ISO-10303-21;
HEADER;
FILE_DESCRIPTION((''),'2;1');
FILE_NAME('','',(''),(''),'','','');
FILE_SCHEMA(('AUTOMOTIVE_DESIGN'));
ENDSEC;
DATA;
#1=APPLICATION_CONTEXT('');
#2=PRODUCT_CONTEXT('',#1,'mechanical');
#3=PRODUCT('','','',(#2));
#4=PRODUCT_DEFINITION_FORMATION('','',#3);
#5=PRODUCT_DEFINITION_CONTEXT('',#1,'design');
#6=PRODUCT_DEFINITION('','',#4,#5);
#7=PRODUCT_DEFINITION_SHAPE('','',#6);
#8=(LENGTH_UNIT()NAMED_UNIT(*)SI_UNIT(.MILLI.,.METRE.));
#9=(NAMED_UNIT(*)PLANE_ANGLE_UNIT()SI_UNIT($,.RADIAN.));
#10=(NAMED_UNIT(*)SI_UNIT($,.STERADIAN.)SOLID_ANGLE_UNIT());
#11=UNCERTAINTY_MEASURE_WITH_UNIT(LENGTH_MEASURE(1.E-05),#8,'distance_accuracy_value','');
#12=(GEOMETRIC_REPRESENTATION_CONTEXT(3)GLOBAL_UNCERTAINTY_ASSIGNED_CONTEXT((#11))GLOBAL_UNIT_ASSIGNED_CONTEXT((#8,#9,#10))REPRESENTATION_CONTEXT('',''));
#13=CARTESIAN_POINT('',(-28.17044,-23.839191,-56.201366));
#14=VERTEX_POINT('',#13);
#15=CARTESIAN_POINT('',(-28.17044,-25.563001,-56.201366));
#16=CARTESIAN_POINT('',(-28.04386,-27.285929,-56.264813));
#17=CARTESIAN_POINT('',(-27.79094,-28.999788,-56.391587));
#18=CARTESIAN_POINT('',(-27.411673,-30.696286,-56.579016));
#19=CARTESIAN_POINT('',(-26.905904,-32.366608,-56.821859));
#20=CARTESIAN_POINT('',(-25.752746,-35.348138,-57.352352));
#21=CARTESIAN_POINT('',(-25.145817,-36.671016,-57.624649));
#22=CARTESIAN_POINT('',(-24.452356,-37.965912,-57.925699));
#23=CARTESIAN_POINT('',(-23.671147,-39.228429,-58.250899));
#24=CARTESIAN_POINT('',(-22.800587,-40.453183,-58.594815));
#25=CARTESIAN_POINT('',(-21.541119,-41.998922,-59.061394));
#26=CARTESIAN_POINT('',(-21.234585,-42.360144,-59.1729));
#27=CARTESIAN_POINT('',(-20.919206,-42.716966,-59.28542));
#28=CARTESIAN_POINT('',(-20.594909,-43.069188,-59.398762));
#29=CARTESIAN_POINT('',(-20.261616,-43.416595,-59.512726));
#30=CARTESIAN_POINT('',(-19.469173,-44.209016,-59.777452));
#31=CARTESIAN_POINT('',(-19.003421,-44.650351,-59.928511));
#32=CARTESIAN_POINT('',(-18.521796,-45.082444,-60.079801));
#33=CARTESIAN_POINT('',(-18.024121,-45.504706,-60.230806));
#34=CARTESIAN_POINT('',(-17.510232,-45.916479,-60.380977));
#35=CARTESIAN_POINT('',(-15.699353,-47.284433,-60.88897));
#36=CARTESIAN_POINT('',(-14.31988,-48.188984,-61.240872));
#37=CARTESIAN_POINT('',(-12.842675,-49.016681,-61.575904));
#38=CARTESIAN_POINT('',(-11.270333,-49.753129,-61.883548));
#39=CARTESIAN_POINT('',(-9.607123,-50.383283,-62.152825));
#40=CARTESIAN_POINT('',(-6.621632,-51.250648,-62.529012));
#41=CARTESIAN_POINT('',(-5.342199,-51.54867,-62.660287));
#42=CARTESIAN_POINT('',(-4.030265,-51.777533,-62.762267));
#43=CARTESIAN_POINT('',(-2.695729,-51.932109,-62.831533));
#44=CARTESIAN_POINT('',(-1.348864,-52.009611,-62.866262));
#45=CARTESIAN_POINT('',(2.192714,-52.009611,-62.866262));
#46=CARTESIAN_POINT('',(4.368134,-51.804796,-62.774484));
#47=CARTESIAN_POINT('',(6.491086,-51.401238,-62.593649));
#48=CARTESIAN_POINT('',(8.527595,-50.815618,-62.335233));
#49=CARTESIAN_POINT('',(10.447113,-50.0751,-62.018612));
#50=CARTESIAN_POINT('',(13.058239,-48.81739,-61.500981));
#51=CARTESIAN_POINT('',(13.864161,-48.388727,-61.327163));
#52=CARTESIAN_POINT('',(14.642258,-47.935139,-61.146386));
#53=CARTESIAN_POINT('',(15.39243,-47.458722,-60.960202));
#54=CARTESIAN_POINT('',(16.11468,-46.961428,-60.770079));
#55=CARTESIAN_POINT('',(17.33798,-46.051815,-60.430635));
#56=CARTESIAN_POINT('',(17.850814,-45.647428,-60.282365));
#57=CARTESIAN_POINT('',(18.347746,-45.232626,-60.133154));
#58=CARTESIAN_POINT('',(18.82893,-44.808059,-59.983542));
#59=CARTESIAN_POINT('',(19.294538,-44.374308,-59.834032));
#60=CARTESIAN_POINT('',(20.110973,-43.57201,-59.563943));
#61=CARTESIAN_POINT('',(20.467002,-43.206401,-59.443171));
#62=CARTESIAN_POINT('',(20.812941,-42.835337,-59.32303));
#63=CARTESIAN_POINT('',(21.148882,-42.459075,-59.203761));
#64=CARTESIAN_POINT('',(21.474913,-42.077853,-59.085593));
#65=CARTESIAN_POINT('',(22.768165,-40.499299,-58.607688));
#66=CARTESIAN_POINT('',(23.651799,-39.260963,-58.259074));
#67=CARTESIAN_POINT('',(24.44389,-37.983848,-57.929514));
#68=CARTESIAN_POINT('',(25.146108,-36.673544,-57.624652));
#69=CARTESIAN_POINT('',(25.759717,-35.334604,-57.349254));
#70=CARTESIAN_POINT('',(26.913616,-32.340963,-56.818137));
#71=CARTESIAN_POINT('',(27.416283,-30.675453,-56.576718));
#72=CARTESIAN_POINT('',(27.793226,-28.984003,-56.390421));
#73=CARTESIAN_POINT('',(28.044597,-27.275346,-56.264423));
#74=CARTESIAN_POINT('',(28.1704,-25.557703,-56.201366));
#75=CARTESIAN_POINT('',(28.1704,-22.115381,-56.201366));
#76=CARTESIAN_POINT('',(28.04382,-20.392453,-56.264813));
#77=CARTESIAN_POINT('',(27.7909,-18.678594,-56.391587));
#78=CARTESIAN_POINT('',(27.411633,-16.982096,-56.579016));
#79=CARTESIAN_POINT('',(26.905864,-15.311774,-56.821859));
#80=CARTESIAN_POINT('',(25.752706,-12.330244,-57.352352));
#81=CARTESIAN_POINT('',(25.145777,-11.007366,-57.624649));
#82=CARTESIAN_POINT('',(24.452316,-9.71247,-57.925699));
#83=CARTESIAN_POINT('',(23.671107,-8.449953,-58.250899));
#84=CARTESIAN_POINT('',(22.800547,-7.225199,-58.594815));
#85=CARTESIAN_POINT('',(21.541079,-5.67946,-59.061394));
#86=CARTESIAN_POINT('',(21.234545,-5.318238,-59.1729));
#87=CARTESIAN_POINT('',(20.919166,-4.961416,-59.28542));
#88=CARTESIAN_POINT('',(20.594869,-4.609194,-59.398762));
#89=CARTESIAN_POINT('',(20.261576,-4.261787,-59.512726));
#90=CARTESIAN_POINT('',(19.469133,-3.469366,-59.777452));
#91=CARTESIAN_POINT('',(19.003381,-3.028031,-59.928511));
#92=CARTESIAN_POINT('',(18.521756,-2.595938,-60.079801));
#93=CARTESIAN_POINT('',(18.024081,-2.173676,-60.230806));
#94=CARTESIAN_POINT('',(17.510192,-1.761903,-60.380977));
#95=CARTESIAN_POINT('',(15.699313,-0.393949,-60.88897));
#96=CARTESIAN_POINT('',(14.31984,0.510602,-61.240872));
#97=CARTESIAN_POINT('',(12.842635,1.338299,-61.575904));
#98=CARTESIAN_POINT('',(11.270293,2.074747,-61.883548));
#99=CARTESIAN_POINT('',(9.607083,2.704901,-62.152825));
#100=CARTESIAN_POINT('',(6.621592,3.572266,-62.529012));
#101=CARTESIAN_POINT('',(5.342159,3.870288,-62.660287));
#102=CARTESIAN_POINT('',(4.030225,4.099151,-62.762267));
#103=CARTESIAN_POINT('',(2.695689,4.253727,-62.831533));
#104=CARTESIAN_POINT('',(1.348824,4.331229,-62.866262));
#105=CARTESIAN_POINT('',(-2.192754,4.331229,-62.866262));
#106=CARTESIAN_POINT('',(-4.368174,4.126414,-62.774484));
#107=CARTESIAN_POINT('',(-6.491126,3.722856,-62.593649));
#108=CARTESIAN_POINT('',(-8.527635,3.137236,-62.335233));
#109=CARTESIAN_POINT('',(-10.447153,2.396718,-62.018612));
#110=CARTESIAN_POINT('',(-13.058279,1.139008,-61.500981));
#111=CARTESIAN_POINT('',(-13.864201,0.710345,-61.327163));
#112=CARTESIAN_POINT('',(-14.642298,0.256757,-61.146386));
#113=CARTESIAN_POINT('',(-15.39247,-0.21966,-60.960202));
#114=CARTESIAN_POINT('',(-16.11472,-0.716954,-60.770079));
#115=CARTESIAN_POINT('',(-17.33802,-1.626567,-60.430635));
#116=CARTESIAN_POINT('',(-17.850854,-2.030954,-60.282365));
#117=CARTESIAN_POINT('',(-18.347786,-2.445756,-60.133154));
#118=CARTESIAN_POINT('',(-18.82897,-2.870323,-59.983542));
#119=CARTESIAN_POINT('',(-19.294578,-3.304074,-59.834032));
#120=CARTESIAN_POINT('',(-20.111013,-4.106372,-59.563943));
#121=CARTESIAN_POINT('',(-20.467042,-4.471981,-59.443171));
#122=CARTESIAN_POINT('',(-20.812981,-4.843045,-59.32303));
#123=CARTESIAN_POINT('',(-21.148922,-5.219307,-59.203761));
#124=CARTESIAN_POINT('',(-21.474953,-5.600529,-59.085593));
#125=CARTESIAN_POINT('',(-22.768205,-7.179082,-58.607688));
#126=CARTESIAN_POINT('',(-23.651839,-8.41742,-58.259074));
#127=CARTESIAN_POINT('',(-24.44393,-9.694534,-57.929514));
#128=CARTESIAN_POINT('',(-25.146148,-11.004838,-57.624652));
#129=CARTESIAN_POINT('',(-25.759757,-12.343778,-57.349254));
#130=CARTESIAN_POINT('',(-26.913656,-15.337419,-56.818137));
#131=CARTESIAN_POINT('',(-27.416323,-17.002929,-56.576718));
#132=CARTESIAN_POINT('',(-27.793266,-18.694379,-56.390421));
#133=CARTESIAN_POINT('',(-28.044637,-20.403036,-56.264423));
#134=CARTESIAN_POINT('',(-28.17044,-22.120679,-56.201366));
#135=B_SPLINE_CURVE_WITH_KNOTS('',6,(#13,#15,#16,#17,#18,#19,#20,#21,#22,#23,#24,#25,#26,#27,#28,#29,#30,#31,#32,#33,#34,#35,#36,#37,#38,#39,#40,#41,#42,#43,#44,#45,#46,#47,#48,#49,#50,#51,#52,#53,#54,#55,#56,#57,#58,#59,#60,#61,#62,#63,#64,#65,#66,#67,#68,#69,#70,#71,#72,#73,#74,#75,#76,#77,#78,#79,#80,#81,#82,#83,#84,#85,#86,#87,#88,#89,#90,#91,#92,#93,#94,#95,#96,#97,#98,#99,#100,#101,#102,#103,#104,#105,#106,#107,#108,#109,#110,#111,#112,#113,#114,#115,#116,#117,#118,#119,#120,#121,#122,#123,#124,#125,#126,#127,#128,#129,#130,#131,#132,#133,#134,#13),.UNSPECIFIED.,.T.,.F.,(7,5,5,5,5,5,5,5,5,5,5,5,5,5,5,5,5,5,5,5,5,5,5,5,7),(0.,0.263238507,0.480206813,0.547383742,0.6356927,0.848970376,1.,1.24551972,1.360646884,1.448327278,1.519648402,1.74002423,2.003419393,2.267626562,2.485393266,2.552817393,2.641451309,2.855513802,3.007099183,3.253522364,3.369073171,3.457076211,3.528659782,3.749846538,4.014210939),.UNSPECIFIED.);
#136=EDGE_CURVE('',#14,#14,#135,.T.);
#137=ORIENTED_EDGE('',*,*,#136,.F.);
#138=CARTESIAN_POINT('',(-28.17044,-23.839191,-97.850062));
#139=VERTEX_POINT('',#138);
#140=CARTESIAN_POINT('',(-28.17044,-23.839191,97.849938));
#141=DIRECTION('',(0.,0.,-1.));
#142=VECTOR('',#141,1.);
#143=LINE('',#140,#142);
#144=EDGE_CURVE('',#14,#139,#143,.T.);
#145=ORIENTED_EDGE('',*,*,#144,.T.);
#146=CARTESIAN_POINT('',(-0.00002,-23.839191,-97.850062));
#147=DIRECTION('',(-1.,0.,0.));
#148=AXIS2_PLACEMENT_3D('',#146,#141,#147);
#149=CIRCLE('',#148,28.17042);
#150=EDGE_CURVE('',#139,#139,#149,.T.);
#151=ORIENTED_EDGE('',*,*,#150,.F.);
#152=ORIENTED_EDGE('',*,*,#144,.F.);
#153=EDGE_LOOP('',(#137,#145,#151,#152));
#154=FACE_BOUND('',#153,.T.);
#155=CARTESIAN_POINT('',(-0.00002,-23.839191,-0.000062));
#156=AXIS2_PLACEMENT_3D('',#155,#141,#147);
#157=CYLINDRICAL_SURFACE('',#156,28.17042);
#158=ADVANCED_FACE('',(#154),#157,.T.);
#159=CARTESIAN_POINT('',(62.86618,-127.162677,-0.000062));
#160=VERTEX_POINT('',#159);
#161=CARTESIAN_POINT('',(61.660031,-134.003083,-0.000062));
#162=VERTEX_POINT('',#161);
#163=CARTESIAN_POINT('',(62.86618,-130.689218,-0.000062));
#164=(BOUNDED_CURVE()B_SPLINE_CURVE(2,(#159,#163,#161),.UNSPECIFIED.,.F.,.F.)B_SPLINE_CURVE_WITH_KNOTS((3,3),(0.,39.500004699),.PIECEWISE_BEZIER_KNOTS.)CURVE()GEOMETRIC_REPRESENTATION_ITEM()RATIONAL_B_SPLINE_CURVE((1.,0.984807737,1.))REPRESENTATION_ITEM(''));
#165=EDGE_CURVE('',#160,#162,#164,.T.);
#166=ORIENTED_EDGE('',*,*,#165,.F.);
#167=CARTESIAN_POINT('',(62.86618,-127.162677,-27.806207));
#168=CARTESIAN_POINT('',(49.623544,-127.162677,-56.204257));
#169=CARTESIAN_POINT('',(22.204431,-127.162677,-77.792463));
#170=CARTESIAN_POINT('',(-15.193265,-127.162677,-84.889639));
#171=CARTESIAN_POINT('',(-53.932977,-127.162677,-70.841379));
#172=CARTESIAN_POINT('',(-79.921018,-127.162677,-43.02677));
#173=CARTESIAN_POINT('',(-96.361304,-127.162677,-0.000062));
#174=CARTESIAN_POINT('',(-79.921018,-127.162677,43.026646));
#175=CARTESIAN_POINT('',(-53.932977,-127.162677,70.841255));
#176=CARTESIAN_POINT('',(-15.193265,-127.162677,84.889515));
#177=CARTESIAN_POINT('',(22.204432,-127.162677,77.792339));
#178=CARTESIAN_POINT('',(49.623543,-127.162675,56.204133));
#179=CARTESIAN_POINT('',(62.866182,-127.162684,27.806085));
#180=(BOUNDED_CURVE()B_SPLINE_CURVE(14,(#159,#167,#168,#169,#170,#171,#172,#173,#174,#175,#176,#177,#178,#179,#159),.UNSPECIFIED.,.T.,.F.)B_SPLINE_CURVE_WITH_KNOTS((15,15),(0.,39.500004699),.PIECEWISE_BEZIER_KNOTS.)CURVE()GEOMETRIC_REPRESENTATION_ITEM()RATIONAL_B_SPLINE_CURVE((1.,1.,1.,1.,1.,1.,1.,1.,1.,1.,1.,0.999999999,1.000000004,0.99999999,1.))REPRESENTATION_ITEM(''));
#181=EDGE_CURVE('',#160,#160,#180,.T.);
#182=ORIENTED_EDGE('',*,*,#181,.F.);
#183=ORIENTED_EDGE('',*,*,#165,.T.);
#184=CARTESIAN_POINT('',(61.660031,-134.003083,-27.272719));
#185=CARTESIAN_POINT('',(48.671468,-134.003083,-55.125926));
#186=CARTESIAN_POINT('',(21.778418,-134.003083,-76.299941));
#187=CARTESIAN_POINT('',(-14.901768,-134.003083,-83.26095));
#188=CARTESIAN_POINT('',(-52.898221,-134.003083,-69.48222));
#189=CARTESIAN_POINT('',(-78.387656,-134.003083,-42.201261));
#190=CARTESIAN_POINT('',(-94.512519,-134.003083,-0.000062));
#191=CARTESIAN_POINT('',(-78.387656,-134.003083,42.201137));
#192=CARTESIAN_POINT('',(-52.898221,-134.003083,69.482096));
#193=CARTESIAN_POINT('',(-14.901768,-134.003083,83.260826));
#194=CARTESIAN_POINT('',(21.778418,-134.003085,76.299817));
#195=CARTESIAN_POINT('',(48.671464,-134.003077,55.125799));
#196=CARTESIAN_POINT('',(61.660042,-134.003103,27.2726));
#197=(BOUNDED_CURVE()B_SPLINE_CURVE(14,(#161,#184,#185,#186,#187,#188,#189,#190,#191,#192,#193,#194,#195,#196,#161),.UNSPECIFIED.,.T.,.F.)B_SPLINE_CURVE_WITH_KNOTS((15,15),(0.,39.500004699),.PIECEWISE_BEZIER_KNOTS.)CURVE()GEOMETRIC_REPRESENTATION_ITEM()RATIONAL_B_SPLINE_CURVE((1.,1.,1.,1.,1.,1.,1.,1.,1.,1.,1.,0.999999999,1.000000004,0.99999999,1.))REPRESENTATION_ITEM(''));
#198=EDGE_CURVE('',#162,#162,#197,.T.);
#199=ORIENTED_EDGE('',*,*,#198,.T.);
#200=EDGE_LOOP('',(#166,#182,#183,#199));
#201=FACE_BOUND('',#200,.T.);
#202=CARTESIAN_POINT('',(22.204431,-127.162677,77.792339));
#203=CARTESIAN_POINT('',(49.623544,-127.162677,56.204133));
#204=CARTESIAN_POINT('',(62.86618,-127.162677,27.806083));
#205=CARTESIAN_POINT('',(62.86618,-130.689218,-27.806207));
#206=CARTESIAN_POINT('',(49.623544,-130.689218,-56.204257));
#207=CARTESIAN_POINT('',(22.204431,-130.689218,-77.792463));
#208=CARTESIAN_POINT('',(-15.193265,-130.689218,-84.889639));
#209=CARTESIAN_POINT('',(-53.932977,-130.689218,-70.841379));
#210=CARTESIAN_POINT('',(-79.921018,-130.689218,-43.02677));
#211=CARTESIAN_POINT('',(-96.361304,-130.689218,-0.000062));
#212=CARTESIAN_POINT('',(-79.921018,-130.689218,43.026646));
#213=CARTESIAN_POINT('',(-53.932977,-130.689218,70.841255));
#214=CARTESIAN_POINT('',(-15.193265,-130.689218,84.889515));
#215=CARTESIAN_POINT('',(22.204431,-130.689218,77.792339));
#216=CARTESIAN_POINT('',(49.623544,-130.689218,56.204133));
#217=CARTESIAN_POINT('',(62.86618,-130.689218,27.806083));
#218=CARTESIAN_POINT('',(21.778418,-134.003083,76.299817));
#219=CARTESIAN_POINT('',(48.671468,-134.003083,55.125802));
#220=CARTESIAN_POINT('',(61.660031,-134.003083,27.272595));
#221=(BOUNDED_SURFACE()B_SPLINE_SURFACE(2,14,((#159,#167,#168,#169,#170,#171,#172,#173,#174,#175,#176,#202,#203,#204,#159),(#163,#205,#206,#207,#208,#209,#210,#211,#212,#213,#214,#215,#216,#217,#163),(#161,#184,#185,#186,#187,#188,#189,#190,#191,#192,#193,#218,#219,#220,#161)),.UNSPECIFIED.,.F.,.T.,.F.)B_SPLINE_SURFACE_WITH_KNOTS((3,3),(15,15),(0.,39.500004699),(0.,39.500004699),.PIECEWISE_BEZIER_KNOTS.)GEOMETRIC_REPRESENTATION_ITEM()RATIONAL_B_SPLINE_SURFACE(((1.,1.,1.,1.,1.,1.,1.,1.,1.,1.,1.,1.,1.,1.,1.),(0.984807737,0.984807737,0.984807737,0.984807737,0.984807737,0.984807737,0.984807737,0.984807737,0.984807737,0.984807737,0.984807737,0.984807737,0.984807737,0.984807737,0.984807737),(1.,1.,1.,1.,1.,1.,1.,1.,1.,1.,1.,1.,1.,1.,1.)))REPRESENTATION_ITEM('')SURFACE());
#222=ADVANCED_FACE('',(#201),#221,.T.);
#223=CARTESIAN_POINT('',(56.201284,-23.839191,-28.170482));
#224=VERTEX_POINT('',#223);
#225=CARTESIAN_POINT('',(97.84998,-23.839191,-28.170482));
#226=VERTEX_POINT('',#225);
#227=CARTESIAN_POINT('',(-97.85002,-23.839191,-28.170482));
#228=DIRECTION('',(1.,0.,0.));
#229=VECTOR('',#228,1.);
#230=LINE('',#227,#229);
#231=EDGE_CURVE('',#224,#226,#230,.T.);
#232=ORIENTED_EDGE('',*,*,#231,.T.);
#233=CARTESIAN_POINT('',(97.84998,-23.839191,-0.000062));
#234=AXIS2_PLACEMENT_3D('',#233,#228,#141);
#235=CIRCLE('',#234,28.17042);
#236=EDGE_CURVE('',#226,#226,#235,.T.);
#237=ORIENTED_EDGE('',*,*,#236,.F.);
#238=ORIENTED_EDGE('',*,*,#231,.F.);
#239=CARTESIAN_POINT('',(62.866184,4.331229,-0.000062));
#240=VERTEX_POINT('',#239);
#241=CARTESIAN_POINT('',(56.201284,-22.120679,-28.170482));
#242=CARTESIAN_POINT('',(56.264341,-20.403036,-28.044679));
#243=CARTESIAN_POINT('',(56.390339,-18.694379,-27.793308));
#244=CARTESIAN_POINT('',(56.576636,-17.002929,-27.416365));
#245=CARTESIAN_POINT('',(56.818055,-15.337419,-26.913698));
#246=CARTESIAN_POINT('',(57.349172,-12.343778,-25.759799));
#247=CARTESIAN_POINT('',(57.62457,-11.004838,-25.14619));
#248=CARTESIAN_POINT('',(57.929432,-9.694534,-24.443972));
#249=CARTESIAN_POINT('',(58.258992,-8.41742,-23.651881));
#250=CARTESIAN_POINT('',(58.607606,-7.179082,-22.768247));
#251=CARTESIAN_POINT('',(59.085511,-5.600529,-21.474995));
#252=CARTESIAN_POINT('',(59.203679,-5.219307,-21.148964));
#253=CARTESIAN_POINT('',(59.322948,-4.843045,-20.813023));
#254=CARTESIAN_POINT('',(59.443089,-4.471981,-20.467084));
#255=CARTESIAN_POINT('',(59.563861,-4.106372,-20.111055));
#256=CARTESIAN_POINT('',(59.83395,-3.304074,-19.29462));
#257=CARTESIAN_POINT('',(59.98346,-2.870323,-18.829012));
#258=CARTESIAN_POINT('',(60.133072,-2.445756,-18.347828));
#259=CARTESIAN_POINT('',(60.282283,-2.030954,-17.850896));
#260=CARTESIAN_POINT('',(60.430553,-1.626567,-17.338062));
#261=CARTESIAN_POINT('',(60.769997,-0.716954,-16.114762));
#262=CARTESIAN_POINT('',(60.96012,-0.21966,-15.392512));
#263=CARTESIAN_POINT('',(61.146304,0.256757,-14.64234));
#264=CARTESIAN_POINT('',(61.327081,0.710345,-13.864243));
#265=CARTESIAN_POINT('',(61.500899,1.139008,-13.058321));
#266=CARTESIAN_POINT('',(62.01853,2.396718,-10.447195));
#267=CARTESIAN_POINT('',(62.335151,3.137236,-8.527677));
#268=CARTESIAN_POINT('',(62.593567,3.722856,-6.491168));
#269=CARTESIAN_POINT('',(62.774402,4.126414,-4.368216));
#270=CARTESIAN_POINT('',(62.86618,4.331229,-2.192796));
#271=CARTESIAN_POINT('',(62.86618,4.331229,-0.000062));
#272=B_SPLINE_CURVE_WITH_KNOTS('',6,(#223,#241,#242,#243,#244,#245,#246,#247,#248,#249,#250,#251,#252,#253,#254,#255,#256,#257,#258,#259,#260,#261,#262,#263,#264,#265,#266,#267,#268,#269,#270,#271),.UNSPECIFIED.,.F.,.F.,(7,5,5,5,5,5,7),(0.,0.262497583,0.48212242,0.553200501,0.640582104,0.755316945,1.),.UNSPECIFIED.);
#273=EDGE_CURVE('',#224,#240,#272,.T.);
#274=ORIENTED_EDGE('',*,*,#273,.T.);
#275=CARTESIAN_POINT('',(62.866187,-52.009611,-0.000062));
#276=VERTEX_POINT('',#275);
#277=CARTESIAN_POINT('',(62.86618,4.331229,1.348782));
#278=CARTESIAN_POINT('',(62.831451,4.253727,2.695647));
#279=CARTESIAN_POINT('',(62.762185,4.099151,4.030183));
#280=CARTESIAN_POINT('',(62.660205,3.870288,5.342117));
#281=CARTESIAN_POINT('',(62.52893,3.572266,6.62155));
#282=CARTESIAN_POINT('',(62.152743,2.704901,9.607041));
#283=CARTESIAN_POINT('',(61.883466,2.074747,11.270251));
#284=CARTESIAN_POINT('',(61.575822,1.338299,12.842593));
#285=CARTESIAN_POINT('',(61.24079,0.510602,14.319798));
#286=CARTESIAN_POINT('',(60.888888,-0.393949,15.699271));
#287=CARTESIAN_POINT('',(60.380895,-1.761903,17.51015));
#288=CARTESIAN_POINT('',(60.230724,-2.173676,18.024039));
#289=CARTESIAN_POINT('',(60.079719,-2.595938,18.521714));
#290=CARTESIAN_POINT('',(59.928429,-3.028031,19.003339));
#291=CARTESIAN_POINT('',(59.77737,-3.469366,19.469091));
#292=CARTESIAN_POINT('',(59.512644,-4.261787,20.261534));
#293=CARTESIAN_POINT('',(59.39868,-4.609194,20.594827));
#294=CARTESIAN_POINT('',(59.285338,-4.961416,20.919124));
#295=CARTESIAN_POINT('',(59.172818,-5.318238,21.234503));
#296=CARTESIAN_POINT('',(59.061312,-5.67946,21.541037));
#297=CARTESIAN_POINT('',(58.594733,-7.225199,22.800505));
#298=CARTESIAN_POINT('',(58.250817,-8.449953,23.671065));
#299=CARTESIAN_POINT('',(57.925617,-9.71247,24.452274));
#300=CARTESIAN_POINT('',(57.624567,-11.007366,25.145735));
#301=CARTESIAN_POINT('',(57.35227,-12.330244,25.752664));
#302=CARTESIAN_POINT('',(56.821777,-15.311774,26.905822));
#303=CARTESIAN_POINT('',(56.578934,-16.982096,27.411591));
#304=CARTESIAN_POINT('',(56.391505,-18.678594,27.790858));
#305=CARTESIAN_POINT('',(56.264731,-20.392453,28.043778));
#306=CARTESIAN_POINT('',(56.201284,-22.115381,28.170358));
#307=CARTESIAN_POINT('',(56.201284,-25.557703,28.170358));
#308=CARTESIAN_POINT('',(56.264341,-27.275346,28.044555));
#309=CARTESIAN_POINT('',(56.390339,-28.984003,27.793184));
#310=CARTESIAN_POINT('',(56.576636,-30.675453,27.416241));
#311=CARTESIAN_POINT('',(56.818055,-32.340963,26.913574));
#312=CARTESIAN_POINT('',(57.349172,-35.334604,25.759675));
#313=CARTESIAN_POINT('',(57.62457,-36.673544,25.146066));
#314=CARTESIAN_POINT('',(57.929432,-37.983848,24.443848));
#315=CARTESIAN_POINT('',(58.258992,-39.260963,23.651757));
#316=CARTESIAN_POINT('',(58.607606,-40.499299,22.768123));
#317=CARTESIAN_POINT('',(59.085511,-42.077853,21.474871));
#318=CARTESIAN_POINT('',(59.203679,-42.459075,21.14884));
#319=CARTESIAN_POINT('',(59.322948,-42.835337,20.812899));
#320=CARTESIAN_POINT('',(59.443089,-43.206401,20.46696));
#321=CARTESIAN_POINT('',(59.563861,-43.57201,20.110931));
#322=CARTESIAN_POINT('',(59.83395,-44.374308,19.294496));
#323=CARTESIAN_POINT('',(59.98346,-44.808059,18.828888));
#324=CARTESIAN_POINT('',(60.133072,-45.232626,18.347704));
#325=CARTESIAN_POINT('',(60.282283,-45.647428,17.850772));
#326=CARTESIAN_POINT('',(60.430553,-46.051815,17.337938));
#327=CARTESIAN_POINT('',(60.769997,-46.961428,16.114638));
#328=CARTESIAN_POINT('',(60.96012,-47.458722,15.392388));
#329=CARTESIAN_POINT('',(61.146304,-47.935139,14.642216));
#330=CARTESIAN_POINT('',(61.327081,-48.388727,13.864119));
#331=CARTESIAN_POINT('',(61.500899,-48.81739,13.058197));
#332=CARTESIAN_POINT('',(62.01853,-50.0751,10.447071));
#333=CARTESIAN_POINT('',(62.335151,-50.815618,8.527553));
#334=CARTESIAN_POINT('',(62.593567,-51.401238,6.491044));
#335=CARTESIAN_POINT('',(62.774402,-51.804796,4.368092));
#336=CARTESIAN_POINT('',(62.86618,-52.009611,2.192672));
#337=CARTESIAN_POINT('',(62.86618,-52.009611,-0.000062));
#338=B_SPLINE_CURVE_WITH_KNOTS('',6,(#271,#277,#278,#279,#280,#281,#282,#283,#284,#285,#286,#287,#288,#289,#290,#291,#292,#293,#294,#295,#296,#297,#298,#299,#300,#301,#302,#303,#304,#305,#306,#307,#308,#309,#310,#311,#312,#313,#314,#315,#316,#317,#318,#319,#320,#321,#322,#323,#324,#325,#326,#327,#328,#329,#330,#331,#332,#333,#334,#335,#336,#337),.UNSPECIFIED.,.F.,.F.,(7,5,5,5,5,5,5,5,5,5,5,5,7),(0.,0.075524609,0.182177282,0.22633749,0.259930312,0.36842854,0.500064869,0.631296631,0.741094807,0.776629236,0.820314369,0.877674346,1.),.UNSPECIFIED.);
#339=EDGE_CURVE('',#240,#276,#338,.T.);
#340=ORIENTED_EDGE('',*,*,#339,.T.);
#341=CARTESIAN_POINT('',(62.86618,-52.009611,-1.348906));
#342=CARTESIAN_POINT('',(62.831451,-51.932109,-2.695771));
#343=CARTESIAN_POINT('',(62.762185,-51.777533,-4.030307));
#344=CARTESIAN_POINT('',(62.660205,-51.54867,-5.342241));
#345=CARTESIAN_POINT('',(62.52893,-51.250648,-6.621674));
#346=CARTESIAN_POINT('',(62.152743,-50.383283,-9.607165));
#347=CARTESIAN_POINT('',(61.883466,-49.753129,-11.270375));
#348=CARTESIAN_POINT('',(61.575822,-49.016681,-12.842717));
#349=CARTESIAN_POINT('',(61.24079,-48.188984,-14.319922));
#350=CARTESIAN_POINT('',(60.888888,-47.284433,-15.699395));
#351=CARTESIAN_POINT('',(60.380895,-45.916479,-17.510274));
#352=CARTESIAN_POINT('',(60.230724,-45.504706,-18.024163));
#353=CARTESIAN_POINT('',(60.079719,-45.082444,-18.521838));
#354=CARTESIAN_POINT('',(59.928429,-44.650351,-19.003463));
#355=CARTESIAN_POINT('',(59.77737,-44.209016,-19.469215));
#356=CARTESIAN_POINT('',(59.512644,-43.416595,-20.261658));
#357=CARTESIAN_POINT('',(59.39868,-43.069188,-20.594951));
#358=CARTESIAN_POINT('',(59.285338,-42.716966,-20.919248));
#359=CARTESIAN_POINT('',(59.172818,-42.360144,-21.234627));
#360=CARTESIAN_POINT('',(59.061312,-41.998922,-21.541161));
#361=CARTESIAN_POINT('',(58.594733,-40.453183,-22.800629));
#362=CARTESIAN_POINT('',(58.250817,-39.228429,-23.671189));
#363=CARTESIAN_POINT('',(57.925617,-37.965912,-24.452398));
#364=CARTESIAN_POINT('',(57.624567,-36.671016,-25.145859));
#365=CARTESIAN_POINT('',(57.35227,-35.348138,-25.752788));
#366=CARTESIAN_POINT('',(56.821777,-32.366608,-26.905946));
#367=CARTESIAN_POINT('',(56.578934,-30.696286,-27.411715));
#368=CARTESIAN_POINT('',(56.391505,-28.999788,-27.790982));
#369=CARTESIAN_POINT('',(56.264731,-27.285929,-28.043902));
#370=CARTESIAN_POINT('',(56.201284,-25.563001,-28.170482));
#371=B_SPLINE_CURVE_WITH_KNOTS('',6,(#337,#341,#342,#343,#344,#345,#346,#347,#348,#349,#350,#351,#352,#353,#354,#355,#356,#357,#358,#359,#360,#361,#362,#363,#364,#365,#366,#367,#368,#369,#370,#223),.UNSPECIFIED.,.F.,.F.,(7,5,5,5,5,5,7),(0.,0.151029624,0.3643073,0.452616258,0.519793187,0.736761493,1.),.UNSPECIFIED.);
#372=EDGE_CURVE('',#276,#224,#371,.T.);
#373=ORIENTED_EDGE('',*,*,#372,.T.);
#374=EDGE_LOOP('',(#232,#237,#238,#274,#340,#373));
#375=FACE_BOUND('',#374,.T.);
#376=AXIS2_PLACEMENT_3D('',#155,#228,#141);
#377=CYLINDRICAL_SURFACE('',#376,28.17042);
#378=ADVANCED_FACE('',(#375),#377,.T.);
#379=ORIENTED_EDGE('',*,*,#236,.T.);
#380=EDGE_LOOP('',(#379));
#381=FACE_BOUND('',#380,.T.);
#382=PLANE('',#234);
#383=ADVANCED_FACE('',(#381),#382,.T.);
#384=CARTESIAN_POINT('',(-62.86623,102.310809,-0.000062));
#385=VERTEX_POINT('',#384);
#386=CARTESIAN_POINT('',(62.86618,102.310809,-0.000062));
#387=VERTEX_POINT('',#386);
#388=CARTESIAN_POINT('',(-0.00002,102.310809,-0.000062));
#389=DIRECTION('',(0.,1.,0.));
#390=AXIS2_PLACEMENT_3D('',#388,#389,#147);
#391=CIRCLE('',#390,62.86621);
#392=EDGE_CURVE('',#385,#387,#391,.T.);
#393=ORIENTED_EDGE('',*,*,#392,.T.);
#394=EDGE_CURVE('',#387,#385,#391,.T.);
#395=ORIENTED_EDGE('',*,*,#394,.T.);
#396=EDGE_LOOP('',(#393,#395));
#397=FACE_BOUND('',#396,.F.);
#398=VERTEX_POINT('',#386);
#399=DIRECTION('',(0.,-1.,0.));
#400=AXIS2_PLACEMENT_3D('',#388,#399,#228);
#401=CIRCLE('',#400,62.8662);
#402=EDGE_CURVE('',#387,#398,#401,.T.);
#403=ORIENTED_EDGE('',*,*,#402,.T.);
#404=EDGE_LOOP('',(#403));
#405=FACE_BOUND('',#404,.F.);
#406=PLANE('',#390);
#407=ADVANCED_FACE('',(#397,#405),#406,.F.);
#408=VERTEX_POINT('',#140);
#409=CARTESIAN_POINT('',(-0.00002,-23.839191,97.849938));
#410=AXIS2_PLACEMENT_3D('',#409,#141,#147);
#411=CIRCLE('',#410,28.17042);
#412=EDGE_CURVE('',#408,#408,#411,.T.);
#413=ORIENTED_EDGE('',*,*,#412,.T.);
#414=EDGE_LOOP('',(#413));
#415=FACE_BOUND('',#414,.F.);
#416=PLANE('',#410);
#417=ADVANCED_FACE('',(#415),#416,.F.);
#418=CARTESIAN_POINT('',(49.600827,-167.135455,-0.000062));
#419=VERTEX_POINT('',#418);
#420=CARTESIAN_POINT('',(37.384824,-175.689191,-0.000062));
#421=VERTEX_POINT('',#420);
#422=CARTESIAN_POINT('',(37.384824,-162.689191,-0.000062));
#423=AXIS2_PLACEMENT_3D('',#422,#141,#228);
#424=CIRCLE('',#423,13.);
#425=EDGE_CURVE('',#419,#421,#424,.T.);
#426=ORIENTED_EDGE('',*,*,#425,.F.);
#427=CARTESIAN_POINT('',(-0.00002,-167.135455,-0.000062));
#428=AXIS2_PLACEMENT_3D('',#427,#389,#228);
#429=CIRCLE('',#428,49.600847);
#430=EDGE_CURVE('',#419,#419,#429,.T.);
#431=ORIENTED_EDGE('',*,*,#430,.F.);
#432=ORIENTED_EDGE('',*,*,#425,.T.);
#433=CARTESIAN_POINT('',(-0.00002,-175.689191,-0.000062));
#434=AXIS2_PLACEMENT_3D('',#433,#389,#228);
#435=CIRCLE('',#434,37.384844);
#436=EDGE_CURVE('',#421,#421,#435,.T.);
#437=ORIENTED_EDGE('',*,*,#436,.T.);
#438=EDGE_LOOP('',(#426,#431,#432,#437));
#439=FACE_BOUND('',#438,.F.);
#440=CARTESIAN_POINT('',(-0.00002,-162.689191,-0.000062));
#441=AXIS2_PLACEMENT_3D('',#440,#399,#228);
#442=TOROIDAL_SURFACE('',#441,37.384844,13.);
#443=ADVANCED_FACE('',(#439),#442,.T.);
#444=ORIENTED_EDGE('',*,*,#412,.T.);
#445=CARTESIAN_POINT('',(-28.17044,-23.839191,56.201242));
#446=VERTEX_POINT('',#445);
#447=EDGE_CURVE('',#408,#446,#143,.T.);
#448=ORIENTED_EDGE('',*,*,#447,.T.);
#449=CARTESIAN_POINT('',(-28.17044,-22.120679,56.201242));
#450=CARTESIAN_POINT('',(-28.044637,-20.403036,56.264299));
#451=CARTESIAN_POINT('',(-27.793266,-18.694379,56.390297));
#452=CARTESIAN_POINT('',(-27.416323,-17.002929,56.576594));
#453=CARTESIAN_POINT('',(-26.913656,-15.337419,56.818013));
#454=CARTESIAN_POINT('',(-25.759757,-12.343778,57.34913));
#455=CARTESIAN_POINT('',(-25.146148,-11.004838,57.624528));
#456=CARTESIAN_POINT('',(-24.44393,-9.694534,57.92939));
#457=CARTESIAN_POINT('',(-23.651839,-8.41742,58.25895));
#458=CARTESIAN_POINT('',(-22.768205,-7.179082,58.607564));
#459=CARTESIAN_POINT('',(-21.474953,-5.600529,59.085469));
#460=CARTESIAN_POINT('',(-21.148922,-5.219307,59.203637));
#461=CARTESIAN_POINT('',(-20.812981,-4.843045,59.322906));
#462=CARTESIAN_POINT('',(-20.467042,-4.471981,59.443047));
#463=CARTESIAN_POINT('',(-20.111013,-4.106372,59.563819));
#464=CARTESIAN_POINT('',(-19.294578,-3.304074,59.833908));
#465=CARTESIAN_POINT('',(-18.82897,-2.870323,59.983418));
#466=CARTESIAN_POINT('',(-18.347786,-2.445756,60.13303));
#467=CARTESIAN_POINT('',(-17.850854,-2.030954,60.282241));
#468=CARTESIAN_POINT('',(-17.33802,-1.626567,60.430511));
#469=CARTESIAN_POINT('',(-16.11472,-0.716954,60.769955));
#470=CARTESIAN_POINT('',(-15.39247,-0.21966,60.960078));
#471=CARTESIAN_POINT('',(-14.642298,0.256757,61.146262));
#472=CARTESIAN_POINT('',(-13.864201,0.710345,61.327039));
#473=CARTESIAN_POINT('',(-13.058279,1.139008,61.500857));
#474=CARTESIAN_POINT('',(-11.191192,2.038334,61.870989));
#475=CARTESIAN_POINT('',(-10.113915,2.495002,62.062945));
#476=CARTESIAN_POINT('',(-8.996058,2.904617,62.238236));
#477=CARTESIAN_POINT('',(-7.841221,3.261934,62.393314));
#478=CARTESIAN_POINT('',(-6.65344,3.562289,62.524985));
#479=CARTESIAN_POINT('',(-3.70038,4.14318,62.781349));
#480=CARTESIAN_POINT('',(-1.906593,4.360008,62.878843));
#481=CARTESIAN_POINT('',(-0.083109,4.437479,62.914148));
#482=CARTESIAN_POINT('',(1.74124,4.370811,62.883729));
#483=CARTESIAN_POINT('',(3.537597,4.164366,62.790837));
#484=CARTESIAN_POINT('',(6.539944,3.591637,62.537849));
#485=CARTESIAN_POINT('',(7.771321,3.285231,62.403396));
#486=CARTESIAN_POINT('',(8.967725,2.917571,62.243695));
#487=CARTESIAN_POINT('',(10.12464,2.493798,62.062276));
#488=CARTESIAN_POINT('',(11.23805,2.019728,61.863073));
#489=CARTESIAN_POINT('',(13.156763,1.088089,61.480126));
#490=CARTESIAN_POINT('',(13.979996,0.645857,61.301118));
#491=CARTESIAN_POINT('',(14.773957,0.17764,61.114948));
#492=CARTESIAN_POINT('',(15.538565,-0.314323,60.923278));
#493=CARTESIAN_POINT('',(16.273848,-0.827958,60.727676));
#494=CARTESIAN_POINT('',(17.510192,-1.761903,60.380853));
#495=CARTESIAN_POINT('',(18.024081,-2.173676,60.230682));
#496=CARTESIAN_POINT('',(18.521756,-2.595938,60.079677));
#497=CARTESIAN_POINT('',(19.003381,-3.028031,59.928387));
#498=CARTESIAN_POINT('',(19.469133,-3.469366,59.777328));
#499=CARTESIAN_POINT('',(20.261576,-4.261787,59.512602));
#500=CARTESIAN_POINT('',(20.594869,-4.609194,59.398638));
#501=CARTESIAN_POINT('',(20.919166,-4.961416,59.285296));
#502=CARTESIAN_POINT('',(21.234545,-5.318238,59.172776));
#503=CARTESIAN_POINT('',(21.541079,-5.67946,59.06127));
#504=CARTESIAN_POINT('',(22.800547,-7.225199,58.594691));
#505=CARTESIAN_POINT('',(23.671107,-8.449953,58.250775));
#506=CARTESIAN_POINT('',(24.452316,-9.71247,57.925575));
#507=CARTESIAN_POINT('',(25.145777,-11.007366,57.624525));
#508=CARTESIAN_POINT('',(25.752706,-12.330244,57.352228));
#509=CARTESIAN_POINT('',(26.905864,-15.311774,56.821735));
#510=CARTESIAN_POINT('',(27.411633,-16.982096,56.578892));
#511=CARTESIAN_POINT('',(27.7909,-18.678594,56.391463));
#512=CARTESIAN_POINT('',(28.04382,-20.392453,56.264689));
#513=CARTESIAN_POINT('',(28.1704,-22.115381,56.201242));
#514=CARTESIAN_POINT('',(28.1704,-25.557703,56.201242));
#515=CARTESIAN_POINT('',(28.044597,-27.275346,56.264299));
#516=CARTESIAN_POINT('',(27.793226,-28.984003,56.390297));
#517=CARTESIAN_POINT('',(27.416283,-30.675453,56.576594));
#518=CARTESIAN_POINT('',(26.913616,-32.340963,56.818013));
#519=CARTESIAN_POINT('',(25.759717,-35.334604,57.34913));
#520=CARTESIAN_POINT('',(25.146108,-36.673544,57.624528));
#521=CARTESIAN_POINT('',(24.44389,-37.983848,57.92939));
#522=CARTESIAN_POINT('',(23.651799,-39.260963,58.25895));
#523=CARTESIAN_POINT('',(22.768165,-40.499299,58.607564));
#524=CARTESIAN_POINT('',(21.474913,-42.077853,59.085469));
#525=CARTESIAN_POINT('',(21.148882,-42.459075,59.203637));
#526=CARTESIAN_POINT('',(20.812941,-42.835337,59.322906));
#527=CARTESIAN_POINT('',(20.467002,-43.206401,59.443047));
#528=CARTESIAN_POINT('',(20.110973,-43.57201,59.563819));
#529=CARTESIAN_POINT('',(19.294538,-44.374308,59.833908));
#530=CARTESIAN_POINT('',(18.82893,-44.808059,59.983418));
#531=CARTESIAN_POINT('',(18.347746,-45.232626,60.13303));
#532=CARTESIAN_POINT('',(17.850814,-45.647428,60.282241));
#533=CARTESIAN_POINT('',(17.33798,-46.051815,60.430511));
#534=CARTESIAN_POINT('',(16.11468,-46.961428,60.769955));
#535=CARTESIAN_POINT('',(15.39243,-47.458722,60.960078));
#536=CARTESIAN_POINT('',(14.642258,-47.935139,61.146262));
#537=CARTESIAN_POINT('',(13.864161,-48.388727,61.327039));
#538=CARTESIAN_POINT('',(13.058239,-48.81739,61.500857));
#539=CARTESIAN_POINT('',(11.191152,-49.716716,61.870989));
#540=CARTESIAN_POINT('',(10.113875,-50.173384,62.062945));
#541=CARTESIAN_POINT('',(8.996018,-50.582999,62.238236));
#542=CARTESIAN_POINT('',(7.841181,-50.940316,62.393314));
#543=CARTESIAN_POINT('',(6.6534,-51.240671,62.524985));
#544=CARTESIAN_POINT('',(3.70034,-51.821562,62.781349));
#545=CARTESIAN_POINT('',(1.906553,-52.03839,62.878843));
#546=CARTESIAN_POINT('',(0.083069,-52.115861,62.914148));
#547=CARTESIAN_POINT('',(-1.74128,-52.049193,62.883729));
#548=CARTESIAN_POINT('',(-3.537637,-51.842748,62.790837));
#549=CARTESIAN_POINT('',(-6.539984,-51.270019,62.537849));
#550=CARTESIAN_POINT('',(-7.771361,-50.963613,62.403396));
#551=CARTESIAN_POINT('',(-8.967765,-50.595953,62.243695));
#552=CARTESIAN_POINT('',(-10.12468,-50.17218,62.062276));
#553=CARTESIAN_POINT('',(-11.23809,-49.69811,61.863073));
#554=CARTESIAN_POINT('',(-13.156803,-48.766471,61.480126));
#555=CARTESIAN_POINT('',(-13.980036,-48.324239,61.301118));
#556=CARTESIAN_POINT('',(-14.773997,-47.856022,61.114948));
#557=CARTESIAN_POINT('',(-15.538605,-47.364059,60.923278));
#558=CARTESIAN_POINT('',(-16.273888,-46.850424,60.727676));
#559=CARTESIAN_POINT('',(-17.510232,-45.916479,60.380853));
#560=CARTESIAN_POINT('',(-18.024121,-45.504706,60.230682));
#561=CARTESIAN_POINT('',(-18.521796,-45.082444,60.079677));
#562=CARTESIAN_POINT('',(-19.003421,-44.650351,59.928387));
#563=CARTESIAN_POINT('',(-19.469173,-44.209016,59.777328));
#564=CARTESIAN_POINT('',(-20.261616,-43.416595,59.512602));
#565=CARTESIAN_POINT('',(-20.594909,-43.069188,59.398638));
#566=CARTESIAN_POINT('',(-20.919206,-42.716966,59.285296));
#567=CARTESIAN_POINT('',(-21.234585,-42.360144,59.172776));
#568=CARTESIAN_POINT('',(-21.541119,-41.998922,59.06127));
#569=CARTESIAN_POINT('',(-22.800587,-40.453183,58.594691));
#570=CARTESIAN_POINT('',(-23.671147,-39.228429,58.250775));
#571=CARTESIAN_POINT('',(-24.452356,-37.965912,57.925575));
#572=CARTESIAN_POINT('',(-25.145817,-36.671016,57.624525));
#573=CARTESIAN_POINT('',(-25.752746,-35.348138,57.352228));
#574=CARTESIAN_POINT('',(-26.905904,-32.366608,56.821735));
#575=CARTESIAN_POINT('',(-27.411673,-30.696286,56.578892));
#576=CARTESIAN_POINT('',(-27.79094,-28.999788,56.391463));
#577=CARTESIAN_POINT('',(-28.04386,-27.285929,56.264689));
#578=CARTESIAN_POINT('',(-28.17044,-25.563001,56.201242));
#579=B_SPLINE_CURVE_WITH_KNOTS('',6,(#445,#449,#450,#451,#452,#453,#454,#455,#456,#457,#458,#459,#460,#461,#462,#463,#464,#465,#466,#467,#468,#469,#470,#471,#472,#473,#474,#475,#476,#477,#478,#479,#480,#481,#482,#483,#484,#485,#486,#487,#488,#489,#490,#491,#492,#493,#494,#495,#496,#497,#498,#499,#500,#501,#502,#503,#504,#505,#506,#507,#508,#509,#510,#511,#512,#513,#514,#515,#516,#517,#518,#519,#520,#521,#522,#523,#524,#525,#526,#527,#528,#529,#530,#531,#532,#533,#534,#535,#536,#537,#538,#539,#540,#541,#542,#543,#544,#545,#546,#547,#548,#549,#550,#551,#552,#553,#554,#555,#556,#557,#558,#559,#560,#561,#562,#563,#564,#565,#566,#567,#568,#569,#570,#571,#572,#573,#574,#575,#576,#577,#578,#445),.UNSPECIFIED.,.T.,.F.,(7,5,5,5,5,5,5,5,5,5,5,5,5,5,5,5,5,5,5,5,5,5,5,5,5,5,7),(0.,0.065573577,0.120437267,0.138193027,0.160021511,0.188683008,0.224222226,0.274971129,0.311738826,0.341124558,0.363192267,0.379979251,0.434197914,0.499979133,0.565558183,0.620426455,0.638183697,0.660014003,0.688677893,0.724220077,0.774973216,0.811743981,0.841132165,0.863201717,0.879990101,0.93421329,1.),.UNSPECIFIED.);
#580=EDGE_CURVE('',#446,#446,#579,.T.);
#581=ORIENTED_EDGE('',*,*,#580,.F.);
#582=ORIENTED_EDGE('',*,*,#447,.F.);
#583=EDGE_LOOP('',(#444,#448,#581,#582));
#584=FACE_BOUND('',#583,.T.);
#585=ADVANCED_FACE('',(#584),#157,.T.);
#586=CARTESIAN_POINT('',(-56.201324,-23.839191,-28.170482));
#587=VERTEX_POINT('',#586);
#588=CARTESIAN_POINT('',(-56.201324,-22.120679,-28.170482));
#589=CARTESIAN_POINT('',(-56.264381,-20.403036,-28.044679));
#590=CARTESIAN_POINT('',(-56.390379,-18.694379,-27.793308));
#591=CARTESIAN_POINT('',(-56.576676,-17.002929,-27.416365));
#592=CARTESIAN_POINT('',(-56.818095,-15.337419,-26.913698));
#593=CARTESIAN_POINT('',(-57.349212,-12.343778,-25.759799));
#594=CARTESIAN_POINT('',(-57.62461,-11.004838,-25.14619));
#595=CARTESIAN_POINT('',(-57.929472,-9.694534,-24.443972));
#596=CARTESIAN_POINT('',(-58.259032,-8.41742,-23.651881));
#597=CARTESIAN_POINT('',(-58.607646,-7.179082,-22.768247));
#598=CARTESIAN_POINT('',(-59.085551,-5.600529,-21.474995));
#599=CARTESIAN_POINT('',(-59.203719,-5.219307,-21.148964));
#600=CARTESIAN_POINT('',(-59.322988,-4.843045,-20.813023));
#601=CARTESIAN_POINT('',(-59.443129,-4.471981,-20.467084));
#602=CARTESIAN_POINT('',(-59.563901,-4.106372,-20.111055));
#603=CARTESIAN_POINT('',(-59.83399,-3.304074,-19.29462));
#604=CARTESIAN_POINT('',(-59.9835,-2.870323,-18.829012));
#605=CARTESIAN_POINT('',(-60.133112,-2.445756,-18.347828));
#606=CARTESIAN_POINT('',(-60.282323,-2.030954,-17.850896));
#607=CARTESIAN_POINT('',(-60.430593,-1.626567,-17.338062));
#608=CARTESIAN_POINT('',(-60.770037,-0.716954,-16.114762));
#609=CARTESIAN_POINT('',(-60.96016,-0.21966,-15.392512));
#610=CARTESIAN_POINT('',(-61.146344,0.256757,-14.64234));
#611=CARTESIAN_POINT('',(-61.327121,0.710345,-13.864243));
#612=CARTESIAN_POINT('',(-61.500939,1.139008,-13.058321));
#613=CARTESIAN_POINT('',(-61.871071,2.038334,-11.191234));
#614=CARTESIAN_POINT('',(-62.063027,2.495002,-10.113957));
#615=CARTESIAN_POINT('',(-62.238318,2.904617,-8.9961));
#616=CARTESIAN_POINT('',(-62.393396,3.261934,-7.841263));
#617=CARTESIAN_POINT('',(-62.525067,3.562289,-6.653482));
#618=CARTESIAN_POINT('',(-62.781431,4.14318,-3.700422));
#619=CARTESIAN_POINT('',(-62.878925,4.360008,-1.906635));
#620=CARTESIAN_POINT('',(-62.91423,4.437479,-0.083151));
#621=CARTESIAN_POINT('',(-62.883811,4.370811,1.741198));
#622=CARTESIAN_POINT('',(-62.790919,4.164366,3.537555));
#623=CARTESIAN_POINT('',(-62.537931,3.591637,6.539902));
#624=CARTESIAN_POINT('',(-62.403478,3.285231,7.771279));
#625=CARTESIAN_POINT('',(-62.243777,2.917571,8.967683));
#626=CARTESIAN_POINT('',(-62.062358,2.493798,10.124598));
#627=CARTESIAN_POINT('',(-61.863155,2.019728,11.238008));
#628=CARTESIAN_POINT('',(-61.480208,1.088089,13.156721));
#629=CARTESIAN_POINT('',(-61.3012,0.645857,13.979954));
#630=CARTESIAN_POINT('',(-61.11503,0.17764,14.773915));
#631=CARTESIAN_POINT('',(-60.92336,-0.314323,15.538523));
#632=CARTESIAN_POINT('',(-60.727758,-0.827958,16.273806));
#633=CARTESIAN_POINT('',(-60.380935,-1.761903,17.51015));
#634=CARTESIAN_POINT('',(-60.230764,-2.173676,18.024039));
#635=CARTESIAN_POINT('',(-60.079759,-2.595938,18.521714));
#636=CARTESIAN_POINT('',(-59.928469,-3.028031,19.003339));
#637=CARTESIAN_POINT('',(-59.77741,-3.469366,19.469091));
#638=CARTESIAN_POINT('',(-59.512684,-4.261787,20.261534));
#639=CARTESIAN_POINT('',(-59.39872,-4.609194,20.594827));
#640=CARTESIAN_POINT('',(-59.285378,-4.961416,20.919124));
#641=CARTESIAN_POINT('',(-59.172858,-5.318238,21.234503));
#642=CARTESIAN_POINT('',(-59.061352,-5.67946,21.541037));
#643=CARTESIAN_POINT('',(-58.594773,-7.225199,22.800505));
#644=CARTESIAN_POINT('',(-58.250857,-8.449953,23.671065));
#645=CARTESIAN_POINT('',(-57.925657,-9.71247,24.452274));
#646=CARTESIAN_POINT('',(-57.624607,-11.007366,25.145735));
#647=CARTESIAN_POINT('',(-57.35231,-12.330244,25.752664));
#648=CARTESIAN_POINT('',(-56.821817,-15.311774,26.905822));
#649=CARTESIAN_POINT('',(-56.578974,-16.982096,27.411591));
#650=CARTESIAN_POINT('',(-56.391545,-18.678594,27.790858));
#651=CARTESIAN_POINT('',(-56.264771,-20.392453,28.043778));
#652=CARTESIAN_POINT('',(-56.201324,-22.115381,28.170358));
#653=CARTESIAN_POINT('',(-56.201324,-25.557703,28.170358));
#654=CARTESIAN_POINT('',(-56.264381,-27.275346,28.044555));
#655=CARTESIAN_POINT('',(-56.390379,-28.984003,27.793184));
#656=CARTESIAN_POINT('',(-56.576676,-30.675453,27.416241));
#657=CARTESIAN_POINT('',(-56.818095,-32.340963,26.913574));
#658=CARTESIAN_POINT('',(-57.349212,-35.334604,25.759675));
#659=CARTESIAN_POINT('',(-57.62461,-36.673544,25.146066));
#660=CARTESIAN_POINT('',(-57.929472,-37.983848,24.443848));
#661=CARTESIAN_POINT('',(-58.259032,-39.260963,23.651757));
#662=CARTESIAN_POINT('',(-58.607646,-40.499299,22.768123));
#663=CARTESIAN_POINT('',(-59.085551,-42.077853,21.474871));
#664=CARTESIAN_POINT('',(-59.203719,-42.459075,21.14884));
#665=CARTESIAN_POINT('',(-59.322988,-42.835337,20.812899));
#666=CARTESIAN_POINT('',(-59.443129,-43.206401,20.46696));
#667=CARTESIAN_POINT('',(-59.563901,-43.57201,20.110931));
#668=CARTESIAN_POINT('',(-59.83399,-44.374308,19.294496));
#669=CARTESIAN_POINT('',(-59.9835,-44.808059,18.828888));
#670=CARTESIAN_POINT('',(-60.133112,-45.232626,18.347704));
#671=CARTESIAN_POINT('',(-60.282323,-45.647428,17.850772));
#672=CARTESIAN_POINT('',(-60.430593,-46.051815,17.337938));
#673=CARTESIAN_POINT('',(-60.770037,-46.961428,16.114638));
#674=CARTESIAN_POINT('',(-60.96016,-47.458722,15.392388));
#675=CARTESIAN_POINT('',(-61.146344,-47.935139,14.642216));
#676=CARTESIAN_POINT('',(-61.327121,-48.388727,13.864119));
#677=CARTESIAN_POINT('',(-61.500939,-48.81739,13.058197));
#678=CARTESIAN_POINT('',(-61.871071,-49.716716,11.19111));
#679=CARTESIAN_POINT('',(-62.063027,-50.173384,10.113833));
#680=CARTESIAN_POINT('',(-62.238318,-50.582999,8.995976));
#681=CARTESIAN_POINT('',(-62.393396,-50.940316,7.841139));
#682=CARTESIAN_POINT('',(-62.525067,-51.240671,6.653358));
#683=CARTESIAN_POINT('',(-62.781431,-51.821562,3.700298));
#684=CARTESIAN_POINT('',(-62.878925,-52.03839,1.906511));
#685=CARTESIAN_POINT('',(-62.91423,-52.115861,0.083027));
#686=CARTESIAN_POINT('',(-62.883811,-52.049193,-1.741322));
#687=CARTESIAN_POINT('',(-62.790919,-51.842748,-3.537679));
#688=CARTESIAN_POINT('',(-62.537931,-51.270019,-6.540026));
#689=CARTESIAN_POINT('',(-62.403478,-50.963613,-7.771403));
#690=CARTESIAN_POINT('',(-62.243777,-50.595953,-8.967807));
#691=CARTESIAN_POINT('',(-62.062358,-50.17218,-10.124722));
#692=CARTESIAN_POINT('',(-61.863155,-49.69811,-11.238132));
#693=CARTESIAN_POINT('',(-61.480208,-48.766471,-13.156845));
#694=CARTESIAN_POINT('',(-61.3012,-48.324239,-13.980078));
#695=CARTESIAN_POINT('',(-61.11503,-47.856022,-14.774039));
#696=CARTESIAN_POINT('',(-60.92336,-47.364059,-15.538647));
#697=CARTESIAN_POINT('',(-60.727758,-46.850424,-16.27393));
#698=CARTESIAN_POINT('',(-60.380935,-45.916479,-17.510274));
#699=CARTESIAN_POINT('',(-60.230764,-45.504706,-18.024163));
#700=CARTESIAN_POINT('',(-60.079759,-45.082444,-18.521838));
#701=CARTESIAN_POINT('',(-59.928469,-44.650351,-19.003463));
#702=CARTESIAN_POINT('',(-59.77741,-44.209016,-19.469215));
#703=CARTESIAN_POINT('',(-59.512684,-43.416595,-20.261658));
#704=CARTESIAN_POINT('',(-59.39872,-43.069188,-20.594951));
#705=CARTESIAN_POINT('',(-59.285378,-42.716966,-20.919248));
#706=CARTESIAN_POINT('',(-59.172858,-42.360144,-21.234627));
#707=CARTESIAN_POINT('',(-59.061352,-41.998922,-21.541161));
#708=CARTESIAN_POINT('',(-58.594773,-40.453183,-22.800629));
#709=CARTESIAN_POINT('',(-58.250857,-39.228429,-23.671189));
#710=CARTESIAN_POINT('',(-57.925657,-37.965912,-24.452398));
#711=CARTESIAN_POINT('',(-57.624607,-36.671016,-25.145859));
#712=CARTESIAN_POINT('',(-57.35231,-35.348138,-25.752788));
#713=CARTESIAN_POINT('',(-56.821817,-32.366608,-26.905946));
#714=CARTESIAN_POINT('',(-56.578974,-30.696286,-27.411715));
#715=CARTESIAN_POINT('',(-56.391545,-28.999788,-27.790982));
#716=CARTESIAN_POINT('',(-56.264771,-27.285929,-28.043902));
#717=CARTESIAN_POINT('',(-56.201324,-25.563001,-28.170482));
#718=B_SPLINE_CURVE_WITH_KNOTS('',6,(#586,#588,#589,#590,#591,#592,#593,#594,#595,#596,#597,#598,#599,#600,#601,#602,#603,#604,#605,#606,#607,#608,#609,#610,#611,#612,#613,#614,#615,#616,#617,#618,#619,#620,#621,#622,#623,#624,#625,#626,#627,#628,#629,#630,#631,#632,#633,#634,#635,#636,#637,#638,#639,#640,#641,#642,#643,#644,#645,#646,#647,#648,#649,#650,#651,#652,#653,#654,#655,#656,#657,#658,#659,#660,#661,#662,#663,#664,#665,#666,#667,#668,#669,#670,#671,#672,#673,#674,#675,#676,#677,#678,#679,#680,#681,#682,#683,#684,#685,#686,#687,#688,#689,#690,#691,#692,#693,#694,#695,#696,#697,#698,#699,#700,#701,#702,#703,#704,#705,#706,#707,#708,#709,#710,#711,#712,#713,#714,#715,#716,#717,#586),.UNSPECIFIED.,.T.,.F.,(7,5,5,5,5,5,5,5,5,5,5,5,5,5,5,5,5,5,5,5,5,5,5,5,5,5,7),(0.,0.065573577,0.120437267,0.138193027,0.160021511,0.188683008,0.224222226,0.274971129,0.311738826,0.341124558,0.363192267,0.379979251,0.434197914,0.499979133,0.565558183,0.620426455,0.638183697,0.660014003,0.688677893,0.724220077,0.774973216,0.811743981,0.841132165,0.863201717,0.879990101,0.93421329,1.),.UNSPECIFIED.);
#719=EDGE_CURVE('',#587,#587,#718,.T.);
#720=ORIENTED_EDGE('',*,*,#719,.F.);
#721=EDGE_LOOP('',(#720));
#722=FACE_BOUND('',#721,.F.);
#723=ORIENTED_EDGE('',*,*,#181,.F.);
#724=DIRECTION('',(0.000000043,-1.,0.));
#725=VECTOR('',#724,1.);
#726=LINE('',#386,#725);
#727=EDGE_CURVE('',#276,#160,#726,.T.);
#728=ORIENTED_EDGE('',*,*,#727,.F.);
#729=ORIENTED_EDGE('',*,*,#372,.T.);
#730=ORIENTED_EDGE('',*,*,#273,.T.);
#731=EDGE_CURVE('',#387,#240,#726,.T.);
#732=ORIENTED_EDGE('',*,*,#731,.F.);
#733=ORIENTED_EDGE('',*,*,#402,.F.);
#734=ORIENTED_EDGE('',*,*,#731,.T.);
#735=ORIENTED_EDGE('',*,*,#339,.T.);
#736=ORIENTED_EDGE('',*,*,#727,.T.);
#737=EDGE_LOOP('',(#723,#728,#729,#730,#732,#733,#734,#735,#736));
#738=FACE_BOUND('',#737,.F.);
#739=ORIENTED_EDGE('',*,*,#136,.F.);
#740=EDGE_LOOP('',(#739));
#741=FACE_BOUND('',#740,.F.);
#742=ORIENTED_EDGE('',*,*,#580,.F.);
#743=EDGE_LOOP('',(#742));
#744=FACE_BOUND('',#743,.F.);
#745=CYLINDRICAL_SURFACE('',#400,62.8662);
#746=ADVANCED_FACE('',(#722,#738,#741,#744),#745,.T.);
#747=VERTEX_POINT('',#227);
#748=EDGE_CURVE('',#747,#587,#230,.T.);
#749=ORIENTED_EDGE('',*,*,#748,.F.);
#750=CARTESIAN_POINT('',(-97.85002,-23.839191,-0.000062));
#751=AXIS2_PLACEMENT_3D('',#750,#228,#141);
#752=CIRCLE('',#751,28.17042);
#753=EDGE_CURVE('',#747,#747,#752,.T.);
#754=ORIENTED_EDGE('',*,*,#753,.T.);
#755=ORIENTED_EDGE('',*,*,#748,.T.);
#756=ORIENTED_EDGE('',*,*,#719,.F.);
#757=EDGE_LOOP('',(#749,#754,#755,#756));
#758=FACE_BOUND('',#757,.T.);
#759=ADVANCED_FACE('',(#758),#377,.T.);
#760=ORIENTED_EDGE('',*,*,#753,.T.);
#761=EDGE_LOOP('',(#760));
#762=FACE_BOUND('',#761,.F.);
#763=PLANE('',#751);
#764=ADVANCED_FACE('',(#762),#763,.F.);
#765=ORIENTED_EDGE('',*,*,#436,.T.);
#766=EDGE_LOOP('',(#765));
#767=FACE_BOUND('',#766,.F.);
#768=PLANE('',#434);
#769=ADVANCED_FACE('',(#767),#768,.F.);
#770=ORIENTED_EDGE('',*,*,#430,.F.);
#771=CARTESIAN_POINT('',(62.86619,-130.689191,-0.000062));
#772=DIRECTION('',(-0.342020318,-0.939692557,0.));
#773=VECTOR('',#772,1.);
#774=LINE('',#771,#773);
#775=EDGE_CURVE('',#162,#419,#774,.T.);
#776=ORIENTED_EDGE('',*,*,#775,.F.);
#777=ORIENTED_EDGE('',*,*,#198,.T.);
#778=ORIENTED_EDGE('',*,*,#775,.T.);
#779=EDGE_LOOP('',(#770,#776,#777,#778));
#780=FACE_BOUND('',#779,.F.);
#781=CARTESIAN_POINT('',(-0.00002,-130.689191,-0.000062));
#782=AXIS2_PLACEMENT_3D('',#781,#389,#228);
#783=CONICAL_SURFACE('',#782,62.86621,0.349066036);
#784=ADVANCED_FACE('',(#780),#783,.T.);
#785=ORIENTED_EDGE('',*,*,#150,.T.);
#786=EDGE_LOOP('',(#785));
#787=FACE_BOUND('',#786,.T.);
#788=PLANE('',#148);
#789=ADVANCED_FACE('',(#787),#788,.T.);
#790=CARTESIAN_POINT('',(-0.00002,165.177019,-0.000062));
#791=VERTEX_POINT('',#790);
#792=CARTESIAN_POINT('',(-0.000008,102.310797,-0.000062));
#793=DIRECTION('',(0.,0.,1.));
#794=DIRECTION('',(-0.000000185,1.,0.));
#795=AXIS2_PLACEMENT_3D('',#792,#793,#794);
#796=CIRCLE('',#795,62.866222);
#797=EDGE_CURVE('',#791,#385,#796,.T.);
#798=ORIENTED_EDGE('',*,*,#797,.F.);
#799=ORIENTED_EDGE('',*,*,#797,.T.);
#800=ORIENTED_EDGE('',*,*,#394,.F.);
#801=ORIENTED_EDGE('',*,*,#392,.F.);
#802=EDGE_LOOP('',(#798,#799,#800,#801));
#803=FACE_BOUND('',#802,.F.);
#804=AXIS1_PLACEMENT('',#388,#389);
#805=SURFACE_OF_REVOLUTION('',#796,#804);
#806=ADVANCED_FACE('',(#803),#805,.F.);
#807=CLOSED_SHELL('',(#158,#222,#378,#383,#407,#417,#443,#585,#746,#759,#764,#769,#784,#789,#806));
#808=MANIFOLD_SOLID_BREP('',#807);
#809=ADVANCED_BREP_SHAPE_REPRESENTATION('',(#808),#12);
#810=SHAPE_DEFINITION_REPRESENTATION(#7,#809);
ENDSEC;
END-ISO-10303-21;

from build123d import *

# Parameters (mm, degrees)
FILLET1_R             = 2
FILLET2_R             = 1.3
SKETCH2_R             = 2.817042
BOSS_EXTRUDE1_DEPTH   = 9.785
BODY_MOVE_COPY1_ANGLE = 90
SCALE1_SCALE          = 10


with BuildPart() as part:
    # Sketch1 → Revolve1 (revolve)
    with BuildSketch(Plane.XY):
        Polygon((0, 0), (6.28662, 0), (6.286621, -23.3), (4.648754, -27.8), (0, -27.8), align=None)
    revolve(axis=Axis((0, -27.8, 0), (0, 1, 0)))

    # Fillet1
    fillet1_edges = [part.edges().sort_by_distance(p)[0] for p in [
        (-6.286621, -23.3, 0),
    ]]
    fillet(fillet1_edges, radius=FILLET1_R)

    # Fillet2
    fillet2_edges = [part.edges().sort_by_distance(p)[0] for p in [
        (-4.648754, -27.8, 0),
    ]]
    fillet(fillet2_edges, radius=FILLET2_R)

    # Sketch2 → Boss-Extrude1 (add, symmetric)
    with BuildSketch(Plane(origin=(0, 0, 0), x_dir=(0, 0, -1), z_dir=(1, 0, 0))):
        with Locations((0, -12.615)):
            Circle(SKETCH2_R)
    extrude(amount=BOSS_EXTRUDE1_DEPTH, both=True)


with BuildPart() as body_2:
    # Body-Move/Copy1: copy of part
    add(part.part.rotate(Axis((0, 0, 0), (0, 1, 0)), BODY_MOVE_COPY1_ANGLE))


with BuildPart() as part_1:
    add(part.part)

    add(body_2.part)  # Revolve2 merges body 2
    # Sketch3 → Revolve2 (revolve)
    with BuildSketch(Plane.XY):
        with BuildLine():
            Line((-6.286621, 0), (0, 0))
            Line((0, 0), (0, 6.286621))
            ThreePointArc((0, 6.286621), (-4.445312, 4.445312), (-6.286621, 0))
        make_face()
    revolve(axis=Axis((0, 0, 0), (0, 1, 0)))


with BuildPart() as part_2:
    # Scale1: scaled about (2e-06, -11.367868, 7e-06)
    add(part_1.part.scale(SCALE1_SCALE).moved(Location((-2e-05, 102.310809, -6.2e-05))))


solid = part_2.part
